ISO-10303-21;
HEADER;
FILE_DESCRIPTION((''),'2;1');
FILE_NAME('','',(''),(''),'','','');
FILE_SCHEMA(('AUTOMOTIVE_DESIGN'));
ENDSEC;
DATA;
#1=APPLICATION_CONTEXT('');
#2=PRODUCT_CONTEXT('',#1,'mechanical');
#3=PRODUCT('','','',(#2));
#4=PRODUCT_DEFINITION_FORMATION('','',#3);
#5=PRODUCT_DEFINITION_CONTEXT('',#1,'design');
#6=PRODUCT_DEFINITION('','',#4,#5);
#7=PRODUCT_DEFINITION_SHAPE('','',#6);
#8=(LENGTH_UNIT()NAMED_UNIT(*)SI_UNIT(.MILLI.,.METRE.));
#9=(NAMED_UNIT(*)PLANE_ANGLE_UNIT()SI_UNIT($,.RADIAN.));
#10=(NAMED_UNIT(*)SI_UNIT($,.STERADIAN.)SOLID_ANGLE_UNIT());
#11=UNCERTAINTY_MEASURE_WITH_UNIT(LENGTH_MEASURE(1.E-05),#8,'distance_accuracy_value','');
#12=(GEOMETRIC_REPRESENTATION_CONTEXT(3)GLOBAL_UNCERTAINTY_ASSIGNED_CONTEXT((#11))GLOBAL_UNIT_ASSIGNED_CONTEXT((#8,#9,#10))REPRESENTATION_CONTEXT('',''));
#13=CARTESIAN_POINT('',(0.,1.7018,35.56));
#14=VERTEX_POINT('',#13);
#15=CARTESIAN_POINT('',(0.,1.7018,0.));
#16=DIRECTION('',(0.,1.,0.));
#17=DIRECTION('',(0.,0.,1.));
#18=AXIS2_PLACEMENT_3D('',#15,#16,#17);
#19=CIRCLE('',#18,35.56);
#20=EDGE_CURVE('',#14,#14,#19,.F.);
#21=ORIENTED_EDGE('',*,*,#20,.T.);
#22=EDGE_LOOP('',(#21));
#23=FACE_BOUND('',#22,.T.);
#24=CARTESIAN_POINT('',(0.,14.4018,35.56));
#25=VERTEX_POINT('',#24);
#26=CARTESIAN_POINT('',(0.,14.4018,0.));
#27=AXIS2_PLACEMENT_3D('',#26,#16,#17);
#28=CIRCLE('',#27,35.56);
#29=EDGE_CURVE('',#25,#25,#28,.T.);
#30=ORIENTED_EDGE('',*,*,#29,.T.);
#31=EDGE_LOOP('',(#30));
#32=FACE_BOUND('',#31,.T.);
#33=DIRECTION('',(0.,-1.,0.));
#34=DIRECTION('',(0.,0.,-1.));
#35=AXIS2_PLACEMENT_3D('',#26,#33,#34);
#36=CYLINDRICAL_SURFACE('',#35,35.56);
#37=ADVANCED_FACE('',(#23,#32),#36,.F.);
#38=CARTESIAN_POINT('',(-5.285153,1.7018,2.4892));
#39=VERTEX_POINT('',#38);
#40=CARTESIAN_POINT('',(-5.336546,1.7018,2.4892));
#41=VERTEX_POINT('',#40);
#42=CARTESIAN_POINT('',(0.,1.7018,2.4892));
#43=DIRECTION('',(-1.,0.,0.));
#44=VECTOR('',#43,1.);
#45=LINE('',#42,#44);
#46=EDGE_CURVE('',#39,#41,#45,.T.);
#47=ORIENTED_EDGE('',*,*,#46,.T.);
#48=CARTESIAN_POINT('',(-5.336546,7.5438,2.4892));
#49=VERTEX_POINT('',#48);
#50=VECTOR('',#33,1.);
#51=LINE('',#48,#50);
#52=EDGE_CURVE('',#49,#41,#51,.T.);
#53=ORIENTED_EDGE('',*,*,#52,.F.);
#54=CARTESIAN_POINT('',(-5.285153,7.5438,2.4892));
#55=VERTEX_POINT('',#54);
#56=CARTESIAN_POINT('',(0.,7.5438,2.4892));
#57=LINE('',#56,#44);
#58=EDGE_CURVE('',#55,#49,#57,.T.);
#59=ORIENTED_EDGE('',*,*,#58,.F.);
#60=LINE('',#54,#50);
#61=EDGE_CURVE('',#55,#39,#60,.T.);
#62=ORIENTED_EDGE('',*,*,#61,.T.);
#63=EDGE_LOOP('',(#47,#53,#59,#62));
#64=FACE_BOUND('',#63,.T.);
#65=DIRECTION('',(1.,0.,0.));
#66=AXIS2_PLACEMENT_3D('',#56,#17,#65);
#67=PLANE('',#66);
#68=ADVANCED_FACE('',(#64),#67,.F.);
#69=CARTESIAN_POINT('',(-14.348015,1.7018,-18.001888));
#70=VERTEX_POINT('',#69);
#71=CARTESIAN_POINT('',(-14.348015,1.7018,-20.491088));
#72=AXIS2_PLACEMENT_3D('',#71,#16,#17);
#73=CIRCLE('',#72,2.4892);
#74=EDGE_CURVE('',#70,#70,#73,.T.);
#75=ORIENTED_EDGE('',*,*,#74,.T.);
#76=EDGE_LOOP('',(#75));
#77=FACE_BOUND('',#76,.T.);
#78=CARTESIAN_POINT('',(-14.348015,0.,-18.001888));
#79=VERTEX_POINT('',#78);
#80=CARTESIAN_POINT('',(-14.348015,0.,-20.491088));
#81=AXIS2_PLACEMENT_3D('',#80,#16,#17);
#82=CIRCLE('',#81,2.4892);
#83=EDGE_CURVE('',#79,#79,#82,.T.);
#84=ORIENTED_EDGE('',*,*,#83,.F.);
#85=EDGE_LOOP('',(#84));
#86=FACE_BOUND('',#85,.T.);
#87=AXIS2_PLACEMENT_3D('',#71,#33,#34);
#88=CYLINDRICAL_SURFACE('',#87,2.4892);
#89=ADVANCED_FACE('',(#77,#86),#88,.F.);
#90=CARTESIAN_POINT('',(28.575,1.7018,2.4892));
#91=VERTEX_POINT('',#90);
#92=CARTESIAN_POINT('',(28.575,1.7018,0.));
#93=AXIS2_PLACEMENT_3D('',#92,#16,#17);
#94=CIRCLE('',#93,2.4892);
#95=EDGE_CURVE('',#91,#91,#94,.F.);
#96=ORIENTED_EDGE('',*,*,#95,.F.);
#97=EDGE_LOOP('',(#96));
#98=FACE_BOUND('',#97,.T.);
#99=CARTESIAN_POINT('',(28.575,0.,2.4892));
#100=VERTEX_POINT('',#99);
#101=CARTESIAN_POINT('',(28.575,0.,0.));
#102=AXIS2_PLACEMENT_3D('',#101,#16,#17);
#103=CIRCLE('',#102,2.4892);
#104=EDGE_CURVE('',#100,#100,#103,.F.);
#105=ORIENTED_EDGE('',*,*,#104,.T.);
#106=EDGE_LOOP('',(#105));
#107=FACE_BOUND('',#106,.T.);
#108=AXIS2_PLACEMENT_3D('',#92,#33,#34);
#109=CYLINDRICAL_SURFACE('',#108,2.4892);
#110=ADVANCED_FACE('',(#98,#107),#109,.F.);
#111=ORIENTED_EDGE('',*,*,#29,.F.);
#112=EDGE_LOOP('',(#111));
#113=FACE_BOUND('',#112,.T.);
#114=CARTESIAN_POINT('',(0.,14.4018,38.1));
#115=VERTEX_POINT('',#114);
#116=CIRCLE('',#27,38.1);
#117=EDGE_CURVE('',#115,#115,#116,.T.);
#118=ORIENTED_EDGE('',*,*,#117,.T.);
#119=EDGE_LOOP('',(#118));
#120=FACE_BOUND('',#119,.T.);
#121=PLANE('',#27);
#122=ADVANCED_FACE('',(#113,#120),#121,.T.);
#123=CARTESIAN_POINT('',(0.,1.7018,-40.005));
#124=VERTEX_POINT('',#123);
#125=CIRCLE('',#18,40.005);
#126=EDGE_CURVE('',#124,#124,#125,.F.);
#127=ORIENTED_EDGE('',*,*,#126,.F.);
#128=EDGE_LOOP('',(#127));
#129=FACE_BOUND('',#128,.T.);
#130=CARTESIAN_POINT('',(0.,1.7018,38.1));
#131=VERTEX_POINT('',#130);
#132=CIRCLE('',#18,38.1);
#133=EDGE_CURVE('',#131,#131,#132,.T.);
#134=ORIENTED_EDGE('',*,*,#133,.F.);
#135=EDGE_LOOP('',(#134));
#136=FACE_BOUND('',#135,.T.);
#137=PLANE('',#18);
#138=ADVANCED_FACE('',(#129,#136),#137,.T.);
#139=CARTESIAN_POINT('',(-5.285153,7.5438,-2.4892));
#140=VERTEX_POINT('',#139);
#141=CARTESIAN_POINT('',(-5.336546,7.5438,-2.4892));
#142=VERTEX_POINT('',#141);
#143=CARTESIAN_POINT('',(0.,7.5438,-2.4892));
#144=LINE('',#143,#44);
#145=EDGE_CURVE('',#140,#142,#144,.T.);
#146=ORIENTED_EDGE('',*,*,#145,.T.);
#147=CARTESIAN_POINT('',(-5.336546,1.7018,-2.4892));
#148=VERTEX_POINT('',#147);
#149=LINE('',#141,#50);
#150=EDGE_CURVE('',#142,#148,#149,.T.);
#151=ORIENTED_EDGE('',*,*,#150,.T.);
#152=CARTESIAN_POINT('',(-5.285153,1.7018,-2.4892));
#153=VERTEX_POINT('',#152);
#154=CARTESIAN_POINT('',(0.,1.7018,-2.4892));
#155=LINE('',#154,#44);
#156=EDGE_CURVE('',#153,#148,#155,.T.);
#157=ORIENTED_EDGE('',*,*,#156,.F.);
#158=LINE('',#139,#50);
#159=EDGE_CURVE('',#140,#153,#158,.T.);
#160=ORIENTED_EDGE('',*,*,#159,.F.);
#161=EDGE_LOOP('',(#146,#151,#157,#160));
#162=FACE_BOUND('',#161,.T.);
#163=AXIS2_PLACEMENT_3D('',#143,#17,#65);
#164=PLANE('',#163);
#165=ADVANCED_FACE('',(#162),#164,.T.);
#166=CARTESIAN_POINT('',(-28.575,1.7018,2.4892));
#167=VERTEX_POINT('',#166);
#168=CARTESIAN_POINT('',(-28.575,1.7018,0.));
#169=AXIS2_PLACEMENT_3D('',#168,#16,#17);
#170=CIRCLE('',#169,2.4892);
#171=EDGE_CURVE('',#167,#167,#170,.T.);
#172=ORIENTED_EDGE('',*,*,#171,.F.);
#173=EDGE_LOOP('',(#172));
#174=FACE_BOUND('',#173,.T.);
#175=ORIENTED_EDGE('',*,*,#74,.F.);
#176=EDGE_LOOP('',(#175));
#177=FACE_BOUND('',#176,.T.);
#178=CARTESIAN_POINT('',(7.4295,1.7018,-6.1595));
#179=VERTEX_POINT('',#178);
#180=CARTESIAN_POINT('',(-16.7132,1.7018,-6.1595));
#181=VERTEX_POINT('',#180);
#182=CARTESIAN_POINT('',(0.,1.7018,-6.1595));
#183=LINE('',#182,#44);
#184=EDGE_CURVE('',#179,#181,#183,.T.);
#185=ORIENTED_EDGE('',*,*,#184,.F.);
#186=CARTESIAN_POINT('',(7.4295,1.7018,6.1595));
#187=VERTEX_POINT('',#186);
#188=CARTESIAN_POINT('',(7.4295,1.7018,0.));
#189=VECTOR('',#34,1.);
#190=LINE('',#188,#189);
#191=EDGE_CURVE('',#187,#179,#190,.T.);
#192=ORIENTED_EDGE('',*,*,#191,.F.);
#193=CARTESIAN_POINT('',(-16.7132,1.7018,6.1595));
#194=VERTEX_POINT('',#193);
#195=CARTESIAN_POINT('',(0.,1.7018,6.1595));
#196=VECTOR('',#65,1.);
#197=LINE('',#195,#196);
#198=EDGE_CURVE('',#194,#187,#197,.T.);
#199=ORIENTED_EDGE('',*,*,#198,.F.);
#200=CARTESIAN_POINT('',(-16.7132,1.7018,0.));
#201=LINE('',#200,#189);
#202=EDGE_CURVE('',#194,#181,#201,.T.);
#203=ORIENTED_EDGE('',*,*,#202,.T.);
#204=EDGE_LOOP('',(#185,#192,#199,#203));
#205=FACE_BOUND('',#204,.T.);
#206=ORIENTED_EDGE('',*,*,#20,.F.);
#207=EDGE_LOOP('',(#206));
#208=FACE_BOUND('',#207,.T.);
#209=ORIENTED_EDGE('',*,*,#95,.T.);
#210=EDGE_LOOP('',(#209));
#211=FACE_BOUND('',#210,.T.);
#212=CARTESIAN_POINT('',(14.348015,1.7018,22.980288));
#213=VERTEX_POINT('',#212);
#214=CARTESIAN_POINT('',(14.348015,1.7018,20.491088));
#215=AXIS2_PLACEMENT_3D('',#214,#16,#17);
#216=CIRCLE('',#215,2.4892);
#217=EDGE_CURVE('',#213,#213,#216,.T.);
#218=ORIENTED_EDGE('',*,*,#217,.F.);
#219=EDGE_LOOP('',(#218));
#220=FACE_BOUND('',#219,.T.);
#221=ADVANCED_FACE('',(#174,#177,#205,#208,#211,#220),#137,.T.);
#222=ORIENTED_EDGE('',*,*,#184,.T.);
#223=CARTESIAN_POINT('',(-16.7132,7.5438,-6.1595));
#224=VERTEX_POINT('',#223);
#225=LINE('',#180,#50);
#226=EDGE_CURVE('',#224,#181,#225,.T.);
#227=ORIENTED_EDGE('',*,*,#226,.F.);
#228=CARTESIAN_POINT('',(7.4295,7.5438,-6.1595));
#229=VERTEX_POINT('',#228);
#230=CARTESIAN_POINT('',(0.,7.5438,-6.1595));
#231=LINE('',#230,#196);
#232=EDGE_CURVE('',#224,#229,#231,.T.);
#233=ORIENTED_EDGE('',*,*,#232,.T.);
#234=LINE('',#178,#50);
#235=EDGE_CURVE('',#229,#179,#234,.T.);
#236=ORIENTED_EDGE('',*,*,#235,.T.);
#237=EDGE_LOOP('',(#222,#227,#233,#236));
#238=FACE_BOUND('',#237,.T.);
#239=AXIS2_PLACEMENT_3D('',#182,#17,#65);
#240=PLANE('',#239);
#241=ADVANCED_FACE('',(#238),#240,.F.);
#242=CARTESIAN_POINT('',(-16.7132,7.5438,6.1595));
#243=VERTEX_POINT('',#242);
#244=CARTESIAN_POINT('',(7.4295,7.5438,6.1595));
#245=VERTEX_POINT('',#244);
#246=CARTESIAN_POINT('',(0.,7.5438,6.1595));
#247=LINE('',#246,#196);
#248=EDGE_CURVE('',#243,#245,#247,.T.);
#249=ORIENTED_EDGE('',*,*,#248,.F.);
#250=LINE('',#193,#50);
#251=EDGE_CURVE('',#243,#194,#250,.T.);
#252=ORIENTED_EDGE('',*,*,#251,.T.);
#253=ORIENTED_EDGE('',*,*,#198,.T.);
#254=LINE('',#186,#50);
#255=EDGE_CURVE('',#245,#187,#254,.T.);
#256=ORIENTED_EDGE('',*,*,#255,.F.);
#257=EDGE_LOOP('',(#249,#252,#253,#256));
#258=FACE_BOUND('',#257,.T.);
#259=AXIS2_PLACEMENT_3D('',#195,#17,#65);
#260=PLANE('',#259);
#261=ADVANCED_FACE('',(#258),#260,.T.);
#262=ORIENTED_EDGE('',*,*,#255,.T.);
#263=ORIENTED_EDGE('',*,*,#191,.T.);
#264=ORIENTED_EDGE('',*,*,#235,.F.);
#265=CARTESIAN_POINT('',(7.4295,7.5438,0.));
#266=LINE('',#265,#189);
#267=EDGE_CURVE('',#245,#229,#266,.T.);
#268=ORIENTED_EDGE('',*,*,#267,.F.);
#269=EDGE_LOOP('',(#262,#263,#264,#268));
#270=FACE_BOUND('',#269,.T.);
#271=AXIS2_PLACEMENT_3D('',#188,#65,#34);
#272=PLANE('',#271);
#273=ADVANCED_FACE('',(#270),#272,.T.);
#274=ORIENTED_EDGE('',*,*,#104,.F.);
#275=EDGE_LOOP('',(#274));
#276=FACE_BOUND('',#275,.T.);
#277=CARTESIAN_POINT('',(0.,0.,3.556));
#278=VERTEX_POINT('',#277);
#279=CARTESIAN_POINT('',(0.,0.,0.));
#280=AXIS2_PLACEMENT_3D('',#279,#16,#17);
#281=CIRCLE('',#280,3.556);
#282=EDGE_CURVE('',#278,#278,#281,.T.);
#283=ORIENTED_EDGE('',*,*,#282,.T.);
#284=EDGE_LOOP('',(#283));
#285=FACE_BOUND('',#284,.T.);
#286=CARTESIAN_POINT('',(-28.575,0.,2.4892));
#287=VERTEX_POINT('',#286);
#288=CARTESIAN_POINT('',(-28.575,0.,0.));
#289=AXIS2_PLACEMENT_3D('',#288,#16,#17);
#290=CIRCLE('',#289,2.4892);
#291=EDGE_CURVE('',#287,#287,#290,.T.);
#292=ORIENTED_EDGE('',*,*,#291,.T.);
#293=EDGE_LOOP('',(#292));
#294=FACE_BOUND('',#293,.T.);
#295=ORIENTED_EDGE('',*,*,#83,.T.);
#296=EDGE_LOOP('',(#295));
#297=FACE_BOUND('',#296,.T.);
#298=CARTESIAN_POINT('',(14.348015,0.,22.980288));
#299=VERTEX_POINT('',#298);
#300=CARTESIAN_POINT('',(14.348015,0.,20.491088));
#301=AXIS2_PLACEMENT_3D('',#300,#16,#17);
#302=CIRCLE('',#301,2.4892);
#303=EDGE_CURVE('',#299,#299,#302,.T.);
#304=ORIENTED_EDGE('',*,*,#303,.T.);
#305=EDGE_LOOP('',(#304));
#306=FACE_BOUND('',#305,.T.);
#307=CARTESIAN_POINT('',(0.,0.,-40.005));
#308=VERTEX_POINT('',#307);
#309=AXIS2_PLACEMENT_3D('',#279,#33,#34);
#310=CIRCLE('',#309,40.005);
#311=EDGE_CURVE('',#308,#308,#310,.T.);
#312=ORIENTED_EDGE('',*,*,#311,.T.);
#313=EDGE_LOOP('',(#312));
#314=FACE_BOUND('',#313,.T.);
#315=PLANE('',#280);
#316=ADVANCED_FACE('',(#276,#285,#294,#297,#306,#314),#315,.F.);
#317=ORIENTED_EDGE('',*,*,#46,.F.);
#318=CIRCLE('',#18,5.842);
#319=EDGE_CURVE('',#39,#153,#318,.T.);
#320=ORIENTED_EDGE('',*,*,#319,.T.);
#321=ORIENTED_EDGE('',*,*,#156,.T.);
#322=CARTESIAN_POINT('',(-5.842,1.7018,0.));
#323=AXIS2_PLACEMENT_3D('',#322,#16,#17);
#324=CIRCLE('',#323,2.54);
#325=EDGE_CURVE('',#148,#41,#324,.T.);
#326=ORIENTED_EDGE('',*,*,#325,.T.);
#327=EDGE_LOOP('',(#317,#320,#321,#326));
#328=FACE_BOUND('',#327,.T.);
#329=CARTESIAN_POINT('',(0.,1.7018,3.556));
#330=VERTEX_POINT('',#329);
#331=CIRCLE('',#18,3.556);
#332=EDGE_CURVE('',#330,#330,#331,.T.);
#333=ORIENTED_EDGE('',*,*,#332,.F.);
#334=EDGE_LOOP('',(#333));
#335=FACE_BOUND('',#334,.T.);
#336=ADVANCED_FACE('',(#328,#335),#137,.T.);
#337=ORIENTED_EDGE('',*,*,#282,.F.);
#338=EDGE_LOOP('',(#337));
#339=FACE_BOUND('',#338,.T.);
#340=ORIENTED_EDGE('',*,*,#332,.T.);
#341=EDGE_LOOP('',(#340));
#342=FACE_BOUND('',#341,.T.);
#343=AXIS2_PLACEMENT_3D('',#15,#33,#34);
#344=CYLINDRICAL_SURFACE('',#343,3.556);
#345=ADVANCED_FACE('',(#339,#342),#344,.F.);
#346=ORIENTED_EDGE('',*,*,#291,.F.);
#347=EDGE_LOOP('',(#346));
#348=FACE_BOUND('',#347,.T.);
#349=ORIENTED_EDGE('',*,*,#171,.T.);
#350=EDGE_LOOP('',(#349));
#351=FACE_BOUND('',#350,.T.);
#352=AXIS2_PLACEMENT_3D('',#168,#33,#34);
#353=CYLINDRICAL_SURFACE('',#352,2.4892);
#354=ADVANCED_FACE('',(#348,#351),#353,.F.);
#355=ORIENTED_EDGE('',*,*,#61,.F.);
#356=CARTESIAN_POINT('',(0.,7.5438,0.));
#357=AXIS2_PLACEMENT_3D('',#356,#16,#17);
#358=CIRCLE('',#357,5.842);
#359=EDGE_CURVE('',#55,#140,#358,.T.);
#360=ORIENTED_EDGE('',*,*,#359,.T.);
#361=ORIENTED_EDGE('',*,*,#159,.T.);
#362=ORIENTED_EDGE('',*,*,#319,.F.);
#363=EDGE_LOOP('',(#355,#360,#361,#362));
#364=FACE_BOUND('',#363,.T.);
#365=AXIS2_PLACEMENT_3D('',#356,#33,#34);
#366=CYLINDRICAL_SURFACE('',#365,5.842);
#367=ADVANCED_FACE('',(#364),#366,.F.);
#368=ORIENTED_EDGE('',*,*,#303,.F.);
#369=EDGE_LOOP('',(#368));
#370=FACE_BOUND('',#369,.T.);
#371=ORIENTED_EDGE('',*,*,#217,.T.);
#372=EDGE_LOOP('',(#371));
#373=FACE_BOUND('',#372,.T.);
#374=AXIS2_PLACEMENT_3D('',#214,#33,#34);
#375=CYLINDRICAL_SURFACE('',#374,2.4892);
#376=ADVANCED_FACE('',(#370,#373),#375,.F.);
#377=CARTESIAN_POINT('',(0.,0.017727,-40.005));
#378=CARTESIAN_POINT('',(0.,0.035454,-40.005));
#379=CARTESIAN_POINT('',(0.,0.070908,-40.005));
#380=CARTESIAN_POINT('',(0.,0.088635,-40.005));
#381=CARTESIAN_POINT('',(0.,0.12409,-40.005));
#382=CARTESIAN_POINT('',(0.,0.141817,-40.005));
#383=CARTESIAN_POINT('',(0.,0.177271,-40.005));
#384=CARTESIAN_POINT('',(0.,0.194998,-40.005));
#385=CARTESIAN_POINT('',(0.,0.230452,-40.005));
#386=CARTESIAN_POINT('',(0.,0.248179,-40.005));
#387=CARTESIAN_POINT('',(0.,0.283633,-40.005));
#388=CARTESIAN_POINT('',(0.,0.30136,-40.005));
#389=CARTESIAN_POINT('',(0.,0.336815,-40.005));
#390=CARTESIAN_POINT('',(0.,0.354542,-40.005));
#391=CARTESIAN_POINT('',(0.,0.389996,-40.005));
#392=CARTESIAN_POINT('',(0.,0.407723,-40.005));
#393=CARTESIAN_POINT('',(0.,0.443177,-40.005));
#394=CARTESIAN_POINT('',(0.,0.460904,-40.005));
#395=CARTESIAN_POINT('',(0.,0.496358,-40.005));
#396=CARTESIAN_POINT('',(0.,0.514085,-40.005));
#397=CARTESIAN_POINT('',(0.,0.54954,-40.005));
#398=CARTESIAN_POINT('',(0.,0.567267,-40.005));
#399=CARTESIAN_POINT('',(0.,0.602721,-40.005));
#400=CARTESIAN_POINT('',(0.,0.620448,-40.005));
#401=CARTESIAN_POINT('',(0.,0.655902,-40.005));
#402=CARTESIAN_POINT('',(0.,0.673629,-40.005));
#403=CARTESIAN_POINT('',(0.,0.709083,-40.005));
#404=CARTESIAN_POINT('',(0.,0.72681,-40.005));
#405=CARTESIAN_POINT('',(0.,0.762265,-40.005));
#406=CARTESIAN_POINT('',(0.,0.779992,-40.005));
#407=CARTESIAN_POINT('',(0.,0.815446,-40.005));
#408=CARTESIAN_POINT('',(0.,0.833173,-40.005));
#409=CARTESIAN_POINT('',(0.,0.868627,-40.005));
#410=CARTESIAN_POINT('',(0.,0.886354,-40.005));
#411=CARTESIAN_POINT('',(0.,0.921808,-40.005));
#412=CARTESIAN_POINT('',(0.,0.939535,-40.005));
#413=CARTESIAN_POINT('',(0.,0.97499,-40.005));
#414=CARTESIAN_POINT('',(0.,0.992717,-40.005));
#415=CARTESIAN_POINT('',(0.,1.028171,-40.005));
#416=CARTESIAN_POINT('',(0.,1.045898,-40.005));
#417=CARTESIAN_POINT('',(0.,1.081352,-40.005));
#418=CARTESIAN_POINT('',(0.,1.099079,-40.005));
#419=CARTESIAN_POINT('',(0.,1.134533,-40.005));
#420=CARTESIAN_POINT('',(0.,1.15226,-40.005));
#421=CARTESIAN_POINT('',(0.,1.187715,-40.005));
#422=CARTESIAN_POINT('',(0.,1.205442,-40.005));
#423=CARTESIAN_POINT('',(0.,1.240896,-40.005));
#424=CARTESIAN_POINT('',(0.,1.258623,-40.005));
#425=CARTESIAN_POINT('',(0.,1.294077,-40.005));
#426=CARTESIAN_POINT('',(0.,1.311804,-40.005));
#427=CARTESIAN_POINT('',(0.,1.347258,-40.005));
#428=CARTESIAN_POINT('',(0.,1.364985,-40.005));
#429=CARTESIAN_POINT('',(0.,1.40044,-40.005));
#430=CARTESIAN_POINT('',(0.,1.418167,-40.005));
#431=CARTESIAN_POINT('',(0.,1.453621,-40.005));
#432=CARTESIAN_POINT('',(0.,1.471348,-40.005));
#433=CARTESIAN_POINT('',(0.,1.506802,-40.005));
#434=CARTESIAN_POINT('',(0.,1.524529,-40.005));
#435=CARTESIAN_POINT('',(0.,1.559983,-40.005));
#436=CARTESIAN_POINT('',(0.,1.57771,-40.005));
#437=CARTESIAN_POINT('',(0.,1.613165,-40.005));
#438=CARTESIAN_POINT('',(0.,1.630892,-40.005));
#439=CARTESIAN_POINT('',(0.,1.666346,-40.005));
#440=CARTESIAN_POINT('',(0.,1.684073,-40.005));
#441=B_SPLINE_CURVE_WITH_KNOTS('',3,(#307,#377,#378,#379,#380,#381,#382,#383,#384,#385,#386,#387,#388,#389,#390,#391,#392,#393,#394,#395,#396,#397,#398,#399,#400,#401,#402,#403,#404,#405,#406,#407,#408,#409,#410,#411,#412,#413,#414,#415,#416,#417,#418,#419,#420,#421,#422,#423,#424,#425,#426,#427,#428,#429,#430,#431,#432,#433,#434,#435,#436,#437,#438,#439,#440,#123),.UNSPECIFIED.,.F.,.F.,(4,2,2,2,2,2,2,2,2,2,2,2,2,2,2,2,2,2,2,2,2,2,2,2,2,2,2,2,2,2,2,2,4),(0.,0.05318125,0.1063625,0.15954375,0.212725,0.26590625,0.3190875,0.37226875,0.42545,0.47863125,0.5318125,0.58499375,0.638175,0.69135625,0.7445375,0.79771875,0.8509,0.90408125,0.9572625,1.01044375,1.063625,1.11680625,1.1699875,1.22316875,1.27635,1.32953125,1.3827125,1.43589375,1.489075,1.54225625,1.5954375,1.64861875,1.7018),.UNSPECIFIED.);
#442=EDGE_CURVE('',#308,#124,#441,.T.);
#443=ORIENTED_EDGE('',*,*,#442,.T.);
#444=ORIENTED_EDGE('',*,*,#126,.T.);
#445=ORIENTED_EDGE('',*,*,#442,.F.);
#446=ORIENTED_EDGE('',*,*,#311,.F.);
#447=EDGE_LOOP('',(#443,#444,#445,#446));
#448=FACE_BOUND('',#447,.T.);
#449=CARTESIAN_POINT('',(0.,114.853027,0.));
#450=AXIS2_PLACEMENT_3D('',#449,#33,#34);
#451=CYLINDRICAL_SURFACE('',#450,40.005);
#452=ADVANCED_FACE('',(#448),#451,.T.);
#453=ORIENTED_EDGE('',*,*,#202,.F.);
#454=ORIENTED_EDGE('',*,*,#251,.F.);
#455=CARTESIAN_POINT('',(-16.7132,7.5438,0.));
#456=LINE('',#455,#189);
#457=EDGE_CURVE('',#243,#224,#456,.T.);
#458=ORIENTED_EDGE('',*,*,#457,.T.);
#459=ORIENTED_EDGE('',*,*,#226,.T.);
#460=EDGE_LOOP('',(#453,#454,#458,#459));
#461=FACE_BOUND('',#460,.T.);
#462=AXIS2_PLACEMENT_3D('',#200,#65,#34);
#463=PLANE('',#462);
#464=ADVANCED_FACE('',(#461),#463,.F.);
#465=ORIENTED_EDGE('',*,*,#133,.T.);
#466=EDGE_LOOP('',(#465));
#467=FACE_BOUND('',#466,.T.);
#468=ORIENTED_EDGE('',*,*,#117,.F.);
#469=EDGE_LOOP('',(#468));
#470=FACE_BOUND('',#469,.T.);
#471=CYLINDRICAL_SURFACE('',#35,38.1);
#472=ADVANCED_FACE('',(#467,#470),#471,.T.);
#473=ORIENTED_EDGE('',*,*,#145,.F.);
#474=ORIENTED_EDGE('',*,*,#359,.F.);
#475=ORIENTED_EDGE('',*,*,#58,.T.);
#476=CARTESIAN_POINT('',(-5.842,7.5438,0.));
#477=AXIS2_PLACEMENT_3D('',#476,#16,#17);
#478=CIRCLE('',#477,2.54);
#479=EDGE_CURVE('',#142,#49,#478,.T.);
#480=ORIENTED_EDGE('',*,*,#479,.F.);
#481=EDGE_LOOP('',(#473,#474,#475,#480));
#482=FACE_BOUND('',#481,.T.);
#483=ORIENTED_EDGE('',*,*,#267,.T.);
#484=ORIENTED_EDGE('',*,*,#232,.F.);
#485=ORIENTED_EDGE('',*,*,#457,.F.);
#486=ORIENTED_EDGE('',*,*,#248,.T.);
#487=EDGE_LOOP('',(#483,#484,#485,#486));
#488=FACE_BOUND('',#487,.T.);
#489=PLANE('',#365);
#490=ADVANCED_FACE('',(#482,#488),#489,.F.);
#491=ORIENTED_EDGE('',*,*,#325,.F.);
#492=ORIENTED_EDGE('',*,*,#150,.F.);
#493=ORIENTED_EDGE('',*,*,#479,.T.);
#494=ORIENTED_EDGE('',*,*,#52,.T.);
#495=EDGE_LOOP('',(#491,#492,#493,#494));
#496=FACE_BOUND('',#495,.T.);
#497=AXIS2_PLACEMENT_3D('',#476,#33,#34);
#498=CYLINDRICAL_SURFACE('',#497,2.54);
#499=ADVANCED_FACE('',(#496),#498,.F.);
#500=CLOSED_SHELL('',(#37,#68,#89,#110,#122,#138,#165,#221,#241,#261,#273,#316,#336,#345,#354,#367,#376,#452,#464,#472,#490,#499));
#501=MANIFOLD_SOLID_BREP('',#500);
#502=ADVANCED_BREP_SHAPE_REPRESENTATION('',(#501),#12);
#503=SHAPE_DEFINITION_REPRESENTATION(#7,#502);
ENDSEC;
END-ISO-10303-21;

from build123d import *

# Parameters (mm, degrees)
SKETCH1_W           = 1.5875
SKETCH1_H           = 3.6703
BOSS_EXTRUDE1_DEPTH = 1.7018
BOSS_EXTRUDE2_START = 1.7018
SKETCH1_4_W         = 1.5875
SKETCH1_4_H         = 3.6703
BOSS_EXTRUDE2_DEPTH = 5.842
BOSS_EXTRUDE3_START = -7.5438
BOSS_EXTRUDE3_DEPTH = 1.7018
SKETCH5_R           = 40.005
BOSS_EXTRUDE5_DEPTH = 1.7018
SKETCH6_R           = 38.1
SKETCH6_R_2         = 35.56
BOSS_EXTRUDE6_DEPTH = 12.7


with BuildPart() as part:
    # Sketch1 → Boss-Extrude1 (new body)
    with BuildSketch(Plane(origin=(0, 0, 0), x_dir=(1, 0, 0), z_dir=(0, 1, 0))):
        with BuildLine():
            ThreePointArc((-24.13, 0), (-24.32485867, 1.301661891), (-24.892350361, 2.4892))
            Line((-24.892350361, 2.4892), (-28.575, 2.4892))
            ThreePointArc((-28.575, 2.4892), (-26.8148698, 1.7601302), (-26.0858, 0))
            ThreePointArc((-26.0858, 0), (-26.8148698, -1.7601302), (-28.575, -2.4892))
            Line((-28.575, -2.4892), (-24.892350361, -2.4892))
            ThreePointArc((-24.892350361, -2.4892), (-24.32485867, -1.301661891), (-24.13, 0))
        make_face()
        with BuildLine():
            Line((-28.575, 2.4892), (-24.892350361, 2.4892))
            ThreePointArc((-24.892350361, 2.4892), (-33.02, 0), (-24.892350361, -2.4892))
            Line((-24.892350361, -2.4892), (-28.575, -2.4892))
            ThreePointArc((-28.575, -2.4892), (-31.0642, 0), (-28.575, 2.4892))
        make_face()
        with BuildLine():
            ThreePointArc((-24.13, 0), (-24.32485867, 1.301661891), (-24.892350361, 2.4892))
            Line((-24.892350361, 2.4892), (-28.575, 2.4892))
            ThreePointArc((-28.575, 2.4892), (-26.8148698, 1.7601302), (-26.0858, 0))
            ThreePointArc((-26.0858, 0), (-26.8148698, -1.7601302), (-28.575, -2.4892))
            Line((-28.575, -2.4892), (-24.892350361, -2.4892))
            ThreePointArc((-24.892350361, -2.4892), (-24.32485867, -1.301661891), (-24.13, 0))
        make_face()
        with BuildLine():
            Line((-28.575, 2.4892), (-24.892350361, 2.4892))
            ThreePointArc((-24.892350361, 2.4892), (-33.02, 0), (-24.892350361, -2.4892))
            Line((-24.892350361, -2.4892), (-28.575, -2.4892))
            ThreePointArc((-28.575, -2.4892), (-31.0642, 0), (-28.575, 2.4892))
        make_face()
        with BuildLine():
            Line((-16.7132, 0), (-16.7132, 2.4892))
            Line((-16.7132, 2.4892), (-24.892350361, 2.4892))
            ThreePointArc((-24.892350361, 2.4892), (-24.32485867, 1.301661891), (-24.13, 0))
            ThreePointArc((-24.13, 0), (-24.32485867, -1.301661891), (-24.892350361, -2.4892))
            Line((-24.892350361, -2.4892), (-16.7132, -2.4892))
            Line((-16.7132, -2.4892), (-16.7132, 0))
        make_face()
        with BuildLine():
            Line((5.842, -6.1595), (5.842, -2.4892))
            Line((5.842, -2.4892), (5.285153485, -2.4892))
            ThreePointArc((5.285153485, -2.4892), (0, -5.842), (-5.285153485, -2.4892))
            Line((-5.285153485, -2.4892), (-5.336546382, -2.4892))
            ThreePointArc((-5.336546382, -2.4892), (-5.842, -2.54), (-6.347453618, -2.4892))
            Line((-6.347453618, -2.4892), (-16.7132, -2.4892))
            Line((-16.7132, -2.4892), (-16.7132, -6.1595))
            Line((-16.7132, -6.1595), (5.842, -6.1595))
        make_face()
        with BuildLine():
            Line((-16.7132, 0), (-16.7132, -2.4892))
            Line((-16.7132, -2.4892), (-6.347453618, -2.4892))
            ThreePointArc((-6.347453618, -2.4892), (-7.808653527, -1.607443282), (-8.382, 0))
            Line((-8.382, 0), (-16.7132, 0))
        make_face()
        with BuildLine():
            Line((-6.347453618, 2.4892), (-16.7132, 2.4892))
            Line((-16.7132, 2.4892), (-16.7132, 0))
            Line((-16.7132, 0), (-8.382, 0))
            ThreePointArc((-8.382, 0), (-7.808653527, 1.607443282), (-6.347453618, 2.4892))
        make_face()
        with BuildLine():
            Line((5.285153485, 2.4892), (5.842, 2.4892))
            Line((5.842, 2.4892), (5.842, 6.1595))
            Line((5.842, 6.1595), (-16.7132, 6.1595))
            Line((-16.7132, 6.1595), (-16.7132, 2.4892))
            Line((-16.7132, 2.4892), (-6.347453618, 2.4892))
            ThreePointArc((-6.347453618, 2.4892), (-5.842, 2.54), (-5.336546382, 2.4892))
            Line((-5.336546382, 2.4892), (-5.285153485, 2.4892))
            ThreePointArc((-5.285153485, 2.4892), (0, 5.842), (5.285153485, 2.4892))
        make_face()
        with Locations((6.63575, 4.32435)):
            Rectangle(SKETCH1_W, SKETCH1_H)
        with Locations((6.63575, -4.32435)):
            Rectangle(SKETCH1_W, SKETCH1_H)
        Polygon((5.842, 2.4892), (5.842, 0), (5.842, -2.4892), (7.4295, -2.4892), (7.4295, 2.4892), align=None)
        with BuildLine():
            ThreePointArc((5.285153485, 2.4892), (5.70108896, 1.275362172), (5.842, 0))
            Line((5.842, 0), (5.842, 2.4892))
            Line((5.842, 2.4892), (5.285153485, 2.4892))
        make_face()
        with BuildLine():
            Line((5.842, -2.4892), (5.842, 0))
            ThreePointArc((5.842, 0), (5.70108896, -1.275362172), (5.285153485, -2.4892))
            Line((5.285153485, -2.4892), (5.842, -2.4892))
        make_face()
        with BuildLine():
            ThreePointArc((5.285153485, -2.4892), (5.70108896, -1.275362172), (5.842, 0))
            Line((5.842, 0), (3.556, 0))
            ThreePointArc((3.556, 0), (3.292079083, -1.344377668), (2.539491949, -2.4892))
            Line((2.539491949, -2.4892), (5.285153485, -2.4892))
        make_face()
        with BuildLine():
            Line((3.556, 0), (5.842, 0))
            ThreePointArc((5.842, 0), (5.70108896, 1.275362172), (5.285153485, 2.4892))
            Line((5.285153485, 2.4892), (2.539491949, 2.4892))
            ThreePointArc((2.539491949, 2.4892), (3.292079083, 1.344377668), (3.556, 0))
        make_face()
        with BuildLine():
            Line((2.539491949, 2.4892), (5.285153485, 2.4892))
            ThreePointArc((5.285153485, 2.4892), (0, 5.842), (-5.285153485, 2.4892))
            Line((-5.285153485, 2.4892), (-2.539491949, 2.4892))
            ThreePointArc((-2.539491949, 2.4892), (0, 3.556), (2.539491949, 2.4892))
        make_face()
        with BuildLine():
            ThreePointArc((-5.285153485, -2.4892), (0, -5.842), (5.285153485, -2.4892))
            Line((5.285153485, -2.4892), (2.539491949, -2.4892))
            ThreePointArc((2.539491949, -2.4892), (0, -3.556), (-2.539491949, -2.4892))
            Line((-2.539491949, -2.4892), (-5.285153485, -2.4892))
        make_face()
        with BuildLine():
            ThreePointArc((-5.289826087, -2.479254721), (-5.287492124, -2.484228459), (-5.285153485, -2.4892))
            Line((-5.285153485, -2.4892), (-2.539491949, -2.4892))
            ThreePointArc((-2.539491949, -2.4892), (-3.104424534, -1.734267659), (-3.451086957, -0.857400034))
            ThreePointArc((-3.451086957, -0.857400034), (-4.161808533, -1.904877066), (-5.289826087, -2.479254721))
        make_face()
        with BuildLine():
            Line((-2.539491949, 2.4892), (-5.285153485, 2.4892))
            ThreePointArc((-5.285153485, 2.4892), (-5.287492124, 2.484228459), (-5.289826087, 2.479254721))
            ThreePointArc((-5.289826087, 2.479254721), (-4.161808533, 1.904877066), (-3.451086957, 0.857400034))
            ThreePointArc((-3.451086957, 0.857400034), (-3.104424534, 1.734267659), (-2.539491949, 2.4892))
        make_face()
        with BuildLine():
            Line((24.892350361, 2.4892), (7.4295, 2.4892))
            Line((7.4295, 2.4892), (7.4295, -2.4892))
            Line((7.4295, -2.4892), (24.892350361, -2.4892))
            ThreePointArc((24.892350361, -2.4892), (24.13, 0), (24.892350361, 2.4892))
        make_face()
        with BuildLine():
            ThreePointArc((33.02, 0), (29.876661891, 4.25014133), (24.892350361, 2.4892))
            Line((24.892350361, 2.4892), (28.575, 2.4892))
            ThreePointArc((28.575, 2.4892), (30.3351302, 1.7601302), (31.0642, 0))
            ThreePointArc((31.0642, 0), (30.3351302, -1.7601302), (28.575, -2.4892))
            Line((28.575, -2.4892), (24.892350361, -2.4892))
            ThreePointArc((24.892350361, -2.4892), (29.876661891, -4.25014133), (33.02, 0))
        make_face()
        with BuildLine():
            Line((28.575, 2.4892), (24.892350361, 2.4892))
            ThreePointArc((24.892350361, 2.4892), (24.13, 0), (24.892350361, -2.4892))
            Line((24.892350361, -2.4892), (28.575, -2.4892))
            ThreePointArc((28.575, -2.4892), (26.0858, 0), (28.575, 2.4892))
        make_face()
        with BuildLine():
            ThreePointArc((33.02, 0), (29.876661891, 4.25014133), (24.892350361, 2.4892))
            Line((24.892350361, 2.4892), (28.575, 2.4892))
            ThreePointArc((28.575, 2.4892), (30.3351302, 1.7601302), (31.0642, 0))
            ThreePointArc((31.0642, 0), (30.3351302, -1.7601302), (28.575, -2.4892))
            Line((28.575, -2.4892), (24.892350361, -2.4892))
            ThreePointArc((24.892350361, -2.4892), (29.876661891, -4.25014133), (33.02, 0))
        make_face()
        with BuildLine():
            Line((28.575, 2.4892), (24.892350361, 2.4892))
            ThreePointArc((24.892350361, 2.4892), (24.13, 0), (24.892350361, -2.4892))
            Line((24.892350361, -2.4892), (28.575, -2.4892))
            ThreePointArc((28.575, -2.4892), (26.0858, 0), (28.575, 2.4892))
        make_face()
        with BuildLine():
            ThreePointArc((-3.451086957, -0.857400034), (-3.529674292, -0.431897431), (-3.556, 0))
            Line((-3.556, 0), (-5.842, 0))
            ThreePointArc((-5.842, 0), (-5.702285857, -1.27), (-5.289826087, -2.479254721))
            ThreePointArc((-5.289826087, -2.479254721), (-4.161808533, -1.904877066), (-3.451086957, -0.857400034))
        make_face()
        with BuildLine():
            Line((-5.842, 0), (-3.556, 0))
            ThreePointArc((-3.556, 0), (-3.529674292, 0.431897431), (-3.451086957, 0.857400034))
            ThreePointArc((-3.451086957, 0.857400034), (-4.161808533, 1.904877066), (-5.289826087, 2.479254721))
            ThreePointArc((-5.289826087, 2.479254721), (-5.702285857, 1.27), (-5.842, 0))
        make_face()
        with BuildLine():
            ThreePointArc((-3.451086957, -0.857400034), (-3.529674292, -0.431897431), (-3.556, 0))
            Line((-3.556, 0), (-5.842, 0))
            ThreePointArc((-5.842, 0), (-5.702285857, -1.27), (-5.289826087, -2.479254721))
            ThreePointArc((-5.289826087, -2.479254721), (-4.161808533, -1.904877066), (-3.451086957, -0.857400034))
        make_face()
        with BuildLine():
            Line((-5.842, 0), (-3.556, 0))
            ThreePointArc((-3.556, 0), (-3.529674292, 0.431897431), (-3.451086957, 0.857400034))
            ThreePointArc((-3.451086957, 0.857400034), (-4.161808533, 1.904877066), (-5.289826087, 2.479254721))
            ThreePointArc((-5.289826087, 2.479254721), (-5.702285857, 1.27), (-5.842, 0))
        make_face()
        with BuildLine():
            Line((-6.347453618, 2.4892), (-5.336546382, 2.4892))
            ThreePointArc((-5.336546382, 2.4892), (-5.842, 2.54), (-6.347453618, 2.4892))
        make_face()
        with BuildLine():
            ThreePointArc((-5.289826087, 2.479254721), (-5.313162855, 2.48433719), (-5.336546382, 2.4892))
            Line((-5.336546382, 2.4892), (-6.347453618, 2.4892))
            ThreePointArc((-6.347453618, 2.4892), (-7.808653527, 1.607443282), (-8.382, 0))
            Line((-8.382, 0), (-5.842, 0))
            ThreePointArc((-5.842, 0), (-5.702285857, 1.27), (-5.289826087, 2.479254721))
        make_face()
        with BuildLine():
            ThreePointArc((-6.347453618, -2.4892), (-5.842, -2.54), (-5.336546382, -2.4892))
            Line((-5.336546382, -2.4892), (-6.347453618, -2.4892))
        make_face()
        with BuildLine():
            Line((-6.347453618, -2.4892), (-5.336546382, -2.4892))
            ThreePointArc((-5.336546382, -2.4892), (-5.313162855, -2.48433719), (-5.289826087, -2.479254721))
            ThreePointArc((-5.289826087, -2.479254721), (-5.702285857, -1.27), (-5.842, 0))
            Line((-5.842, 0), (-8.382, 0))
            ThreePointArc((-8.382, 0), (-7.808653527, -1.607443282), (-6.347453618, -2.4892))
        make_face()
        with BuildLine():
            Line((-5.336546382, -2.4892), (-5.285153485, -2.4892))
            ThreePointArc((-5.285153485, -2.4892), (-5.287492124, -2.484228459), (-5.289826087, -2.479254721))
            ThreePointArc((-5.289826087, -2.479254721), (-5.313162855, -2.48433719), (-5.336546382, -2.4892))
        make_face()
        with BuildLine():
            ThreePointArc((-5.289826087, 2.479254721), (-5.287492124, 2.484228459), (-5.285153485, 2.4892))
            Line((-5.285153485, 2.4892), (-5.336546382, 2.4892))
            ThreePointArc((-5.336546382, 2.4892), (-5.313162855, 2.48433719), (-5.289826087, 2.479254721))
        make_face()
    extrude(amount=BOSS_EXTRUDE1_DEPTH)

    # Sketch1<4> → Boss-Extrude2 (add)
    with BuildSketch(Plane(origin=(0, 0, 0), x_dir=(1, 0, 0), z_dir=(0, 1, 0)).offset(BOSS_EXTRUDE2_START)):
        with BuildLine():
            Line((5.842, -6.1595), (5.842, -2.4892))
            Line((5.842, -2.4892), (5.285153485, -2.4892))
            ThreePointArc((5.285153485, -2.4892), (0, -5.842), (-5.285153485, -2.4892))
            Line((-5.285153485, -2.4892), (-5.336546382, -2.4892))
            ThreePointArc((-5.336546382, -2.4892), (-5.842, -2.54), (-6.347453618, -2.4892))
            Line((-6.347453618, -2.4892), (-16.7132, -2.4892))
            Line((-16.7132, -2.4892), (-16.7132, -6.1595))
            Line((-16.7132, -6.1595), (5.842, -6.1595))
        make_face()
        with BuildLine():
            Line((-6.347453618, 2.4892), (-16.7132, 2.4892))
            Line((-16.7132, 2.4892), (-16.7132, 0))
            Line((-16.7132, 0), (-8.382, 0))
            ThreePointArc((-8.382, 0), (-7.808653527, 1.607443282), (-6.347453618, 2.4892))
        make_face()
        with BuildLine():
            Line((5.285153485, 2.4892), (5.842, 2.4892))
            Line((5.842, 2.4892), (5.842, 6.1595))
            Line((5.842, 6.1595), (-16.7132, 6.1595))
            Line((-16.7132, 6.1595), (-16.7132, 2.4892))
            Line((-16.7132, 2.4892), (-6.347453618, 2.4892))
            ThreePointArc((-6.347453618, 2.4892), (-5.842, 2.54), (-5.336546382, 2.4892))
            Line((-5.336546382, 2.4892), (-5.285153485, 2.4892))
            ThreePointArc((-5.285153485, 2.4892), (0, 5.842), (5.285153485, 2.4892))
        make_face()
        with Locations((6.63575, 4.32435)):
            Rectangle(SKETCH1_4_W, SKETCH1_4_H)
        Polygon((5.842, 2.4892), (5.842, 0), (5.842, -2.4892), (7.4295, -2.4892), (7.4295, 2.4892), align=None)
        with Locations((6.63575, -4.32435)):
            Rectangle(SKETCH1_4_W, SKETCH1_4_H)
        with BuildLine():
            Line((5.842, -2.4892), (5.842, 0))
            ThreePointArc((5.842, 0), (5.70108896, -1.275362172), (5.285153485, -2.4892))
            Line((5.285153485, -2.4892), (5.842, -2.4892))
        make_face()
        with BuildLine():
            ThreePointArc((5.285153485, 2.4892), (5.70108896, 1.275362172), (5.842, 0))
            Line((5.842, 0), (5.842, 2.4892))
            Line((5.842, 2.4892), (5.285153485, 2.4892))
        make_face()
        with BuildLine():
            Line((-16.7132, 0), (-16.7132, -2.4892))
            Line((-16.7132, -2.4892), (-6.347453618, -2.4892))
            ThreePointArc((-6.347453618, -2.4892), (-7.808653527, -1.607443282), (-8.382, 0))
            Line((-8.382, 0), (-16.7132, 0))
        make_face()
    extrude(amount=BOSS_EXTRUDE2_DEPTH)

    # Sketch3 → Boss-Extrude3 (add)
    with BuildSketch(Plane(origin=(0, 7.5438, 0), x_dir=(1, 0, 0), z_dir=(0, 1, 0)).offset(BOSS_EXTRUDE3_START)):
        with BuildLine():
            ThreePointArc((-11.858814555, 20.491088388), (-12.140067189, 19.34170374), (-12.92026809, 18.452055119))
            Line((-12.92026809, 18.452055119), (-11.798467296, 16.849957551))
            ThreePointArc((-11.798467296, 16.849957551), (-10.843974639, 17.756179018), (-10.196700231, 18.902184873))
            Line((-10.196700231, 18.902184873), (-12.308981287, 21.918834853))
            ThreePointArc((-12.308981287, 21.918834853), (-11.974022322, 21.239605264), (-11.858814555, 20.491088388))
        make_face()
        with BuildLine():
            Line((-14.274766768, 16.046691943), (-16.387047824, 19.063341923))
            ThreePointArc((-16.387047824, 19.063341923), (-15.775761021, 22.530121657), (-12.308981287, 21.918834853))
            Line((-12.308981287, 21.918834853), (-10.196700231, 18.902184873))
            ThreePointArc((-10.196700231, 18.902184873), (-9.97705258, 19.683179721), (-9.903014555, 20.491088388))
            ThreePointArc((-9.903014555, 20.491088388), (-17.516895384, 23.608173451), (-14.274766768, 16.046691943))
        make_face()
        with BuildLine():
            Line((-11.798467296, 16.849957551), (-12.92026809, 18.452055119))
            ThreePointArc((-12.92026809, 18.452055119), (-14.780259599, 18.039704929), (-16.387047824, 19.063341923))
            Line((-16.387047824, 19.063341923), (-14.274766768, 16.046691943))
            ThreePointArc((-14.274766768, 16.046691943), (-12.976492636, 16.26297384), (-11.798467296, 16.849957551))
        make_face()
        with BuildLine():
            Line((-4.312928332, 6.1595), (-11.798467296, 16.849957551))
            ThreePointArc((-11.798467296, 16.849957551), (-12.976492636, 16.26297384), (-14.274766768, 16.046691943))
            Line((-14.274766768, 16.046691943), (-7.351680438, 6.1595))
            Line((-7.351680438, 6.1595), (-4.312928332, 6.1595))
        make_face()
        with BuildLine():
            ThreePointArc((-10.196700231, 18.902184873), (-10.843974639, 17.756179018), (-11.798467296, 16.849957551))
            Line((-11.798467296, 16.849957551), (-4.312928332, 6.1595))
            Line((-4.312928332, 6.1595), (-1.274176225, 6.1595))
            Line((-1.274176225, 6.1595), (-10.196700231, 18.902184873))
        make_face()
        with BuildLine():
            Line((11.798467296, -16.849957551), (4.312928332, -6.1595))
            Line((4.312928332, -6.1595), (1.274176225, -6.1595))
            Line((1.274176225, -6.1595), (10.196700231, -18.902184873))
            ThreePointArc((10.196700231, -18.902184873), (10.843974639, -17.756179018), (11.798467296, -16.849957551))
        make_face()
        with BuildLine():
            Line((7.351680438, -6.1595), (4.312928332, -6.1595))
            Line((4.312928332, -6.1595), (11.798467296, -16.849957551))
            ThreePointArc((11.798467296, -16.849957551), (12.976492636, -16.26297384), (14.274766768, -16.046691943))
            Line((14.274766768, -16.046691943), (7.351680438, -6.1595))
        make_face()
        with BuildLine():
            ThreePointArc((18.793014555, -20.491088388), (17.465099619, -17.322207559), (14.274766768, -16.046691943))
            Line((14.274766768, -16.046691943), (16.387047824, -19.063341923))
            ThreePointArc((16.387047824, -19.063341923), (16.722006789, -19.742571512), (16.837214555, -20.491088388))
            ThreePointArc((16.837214555, -20.491088388), (15.096531431, -22.865080622), (12.308981287, -21.918834853))
            Line((12.308981287, -21.918834853), (10.196700231, -18.902184873))
            ThreePointArc((10.196700231, -18.902184873), (13.540105889, -24.862050363), (18.793014555, -20.491088388))
        make_face()
        with BuildLine():
            ThreePointArc((14.274766768, -16.046691943), (12.976492636, -16.26297384), (11.798467296, -16.849957551))
            Line((11.798467296, -16.849957551), (12.92026809, -18.452055119))
            ThreePointArc((12.92026809, -18.452055119), (14.780259599, -18.039704929), (16.387047824, -19.063341923))
            Line((16.387047824, -19.063341923), (14.274766768, -16.046691943))
        make_face()
        with BuildLine():
            Line((12.92026809, -18.452055119), (11.798467296, -16.849957551))
            ThreePointArc((11.798467296, -16.849957551), (10.843974639, -17.756179018), (10.196700231, -18.902184873))
            Line((10.196700231, -18.902184873), (12.308981287, -21.918834853))
            ThreePointArc((12.308981287, -21.918834853), (11.896631097, -20.058843344), (12.92026809, -18.452055119))
        make_face()
    extrude(amount=BOSS_EXTRUDE3_DEPTH)

    # Sketch5 → Boss-Extrude5 (add)
    with BuildSketch(Plane.XZ):
        with Locations(Location((0, 0, 0), (0, 0, 270))):
            Circle(SKETCH5_R)
        with BuildLine():
            Line((7.4295, 2.4892), (7.4295, 6.1595))
            Line((7.4295, 6.1595), (7.351680438, 6.1595))
            Line((7.351680438, 6.1595), (14.274766768, 16.046691943))
            ThreePointArc((14.274766768, 16.046691943), (16.897561815, 24.132219225), (10.196700231, 18.902184873))
            Line((10.196700231, 18.902184873), (1.274176225, 6.1595))
            Line((1.274176225, 6.1595), (-16.7132, 6.1595))
            Line((-16.7132, 6.1595), (-16.7132, 2.4892))
            Line((-16.7132, 2.4892), (-24.892350361, 2.4892))
            ThreePointArc((-24.892350361, 2.4892), (-33.02, 0), (-24.892350361, -2.4892))
            Line((-24.892350361, -2.4892), (-16.7132, -2.4892))
            Line((-16.7132, -2.4892), (-16.7132, -6.1595))
            Line((-16.7132, -6.1595), (-7.351680438, -6.1595))
            Line((-7.351680438, -6.1595), (-14.274766768, -16.046691943))
            ThreePointArc((-14.274766768, -16.046691943), (-16.897561815, -24.132219225), (-10.196700231, -18.902184873))
            Line((-10.196700231, -18.902184873), (-1.274176225, -6.1595))
            Line((-1.274176225, -6.1595), (7.4295, -6.1595))
            Line((7.4295, -6.1595), (7.4295, -2.4892))
            Line((7.4295, -2.4892), (24.892350361, -2.4892))
            ThreePointArc((24.892350361, -2.4892), (33.02, 0), (24.892350361, 2.4892))
            Line((24.892350361, 2.4892), (7.4295, 2.4892))
        make_face(mode=Mode.SUBTRACT)
    extrude(amount=-BOSS_EXTRUDE5_DEPTH)

    # Sketch6 → Boss-Extrude6 (add)
    with BuildSketch(Plane(origin=(0, 1.7018, 0), x_dir=(1, 0, 0), z_dir=(0, 1, 0))):
        with Locations(Location((0, 0, 0), (0, 0, 270))):
            Circle(SKETCH6_R)
        with Locations(Location((0, 0, 0), (0, 0, 270))):
            Circle(SKETCH6_R_2, mode=Mode.SUBTRACT)
    extrude(amount=BOSS_EXTRUDE6_DEPTH)


solid = part.part
